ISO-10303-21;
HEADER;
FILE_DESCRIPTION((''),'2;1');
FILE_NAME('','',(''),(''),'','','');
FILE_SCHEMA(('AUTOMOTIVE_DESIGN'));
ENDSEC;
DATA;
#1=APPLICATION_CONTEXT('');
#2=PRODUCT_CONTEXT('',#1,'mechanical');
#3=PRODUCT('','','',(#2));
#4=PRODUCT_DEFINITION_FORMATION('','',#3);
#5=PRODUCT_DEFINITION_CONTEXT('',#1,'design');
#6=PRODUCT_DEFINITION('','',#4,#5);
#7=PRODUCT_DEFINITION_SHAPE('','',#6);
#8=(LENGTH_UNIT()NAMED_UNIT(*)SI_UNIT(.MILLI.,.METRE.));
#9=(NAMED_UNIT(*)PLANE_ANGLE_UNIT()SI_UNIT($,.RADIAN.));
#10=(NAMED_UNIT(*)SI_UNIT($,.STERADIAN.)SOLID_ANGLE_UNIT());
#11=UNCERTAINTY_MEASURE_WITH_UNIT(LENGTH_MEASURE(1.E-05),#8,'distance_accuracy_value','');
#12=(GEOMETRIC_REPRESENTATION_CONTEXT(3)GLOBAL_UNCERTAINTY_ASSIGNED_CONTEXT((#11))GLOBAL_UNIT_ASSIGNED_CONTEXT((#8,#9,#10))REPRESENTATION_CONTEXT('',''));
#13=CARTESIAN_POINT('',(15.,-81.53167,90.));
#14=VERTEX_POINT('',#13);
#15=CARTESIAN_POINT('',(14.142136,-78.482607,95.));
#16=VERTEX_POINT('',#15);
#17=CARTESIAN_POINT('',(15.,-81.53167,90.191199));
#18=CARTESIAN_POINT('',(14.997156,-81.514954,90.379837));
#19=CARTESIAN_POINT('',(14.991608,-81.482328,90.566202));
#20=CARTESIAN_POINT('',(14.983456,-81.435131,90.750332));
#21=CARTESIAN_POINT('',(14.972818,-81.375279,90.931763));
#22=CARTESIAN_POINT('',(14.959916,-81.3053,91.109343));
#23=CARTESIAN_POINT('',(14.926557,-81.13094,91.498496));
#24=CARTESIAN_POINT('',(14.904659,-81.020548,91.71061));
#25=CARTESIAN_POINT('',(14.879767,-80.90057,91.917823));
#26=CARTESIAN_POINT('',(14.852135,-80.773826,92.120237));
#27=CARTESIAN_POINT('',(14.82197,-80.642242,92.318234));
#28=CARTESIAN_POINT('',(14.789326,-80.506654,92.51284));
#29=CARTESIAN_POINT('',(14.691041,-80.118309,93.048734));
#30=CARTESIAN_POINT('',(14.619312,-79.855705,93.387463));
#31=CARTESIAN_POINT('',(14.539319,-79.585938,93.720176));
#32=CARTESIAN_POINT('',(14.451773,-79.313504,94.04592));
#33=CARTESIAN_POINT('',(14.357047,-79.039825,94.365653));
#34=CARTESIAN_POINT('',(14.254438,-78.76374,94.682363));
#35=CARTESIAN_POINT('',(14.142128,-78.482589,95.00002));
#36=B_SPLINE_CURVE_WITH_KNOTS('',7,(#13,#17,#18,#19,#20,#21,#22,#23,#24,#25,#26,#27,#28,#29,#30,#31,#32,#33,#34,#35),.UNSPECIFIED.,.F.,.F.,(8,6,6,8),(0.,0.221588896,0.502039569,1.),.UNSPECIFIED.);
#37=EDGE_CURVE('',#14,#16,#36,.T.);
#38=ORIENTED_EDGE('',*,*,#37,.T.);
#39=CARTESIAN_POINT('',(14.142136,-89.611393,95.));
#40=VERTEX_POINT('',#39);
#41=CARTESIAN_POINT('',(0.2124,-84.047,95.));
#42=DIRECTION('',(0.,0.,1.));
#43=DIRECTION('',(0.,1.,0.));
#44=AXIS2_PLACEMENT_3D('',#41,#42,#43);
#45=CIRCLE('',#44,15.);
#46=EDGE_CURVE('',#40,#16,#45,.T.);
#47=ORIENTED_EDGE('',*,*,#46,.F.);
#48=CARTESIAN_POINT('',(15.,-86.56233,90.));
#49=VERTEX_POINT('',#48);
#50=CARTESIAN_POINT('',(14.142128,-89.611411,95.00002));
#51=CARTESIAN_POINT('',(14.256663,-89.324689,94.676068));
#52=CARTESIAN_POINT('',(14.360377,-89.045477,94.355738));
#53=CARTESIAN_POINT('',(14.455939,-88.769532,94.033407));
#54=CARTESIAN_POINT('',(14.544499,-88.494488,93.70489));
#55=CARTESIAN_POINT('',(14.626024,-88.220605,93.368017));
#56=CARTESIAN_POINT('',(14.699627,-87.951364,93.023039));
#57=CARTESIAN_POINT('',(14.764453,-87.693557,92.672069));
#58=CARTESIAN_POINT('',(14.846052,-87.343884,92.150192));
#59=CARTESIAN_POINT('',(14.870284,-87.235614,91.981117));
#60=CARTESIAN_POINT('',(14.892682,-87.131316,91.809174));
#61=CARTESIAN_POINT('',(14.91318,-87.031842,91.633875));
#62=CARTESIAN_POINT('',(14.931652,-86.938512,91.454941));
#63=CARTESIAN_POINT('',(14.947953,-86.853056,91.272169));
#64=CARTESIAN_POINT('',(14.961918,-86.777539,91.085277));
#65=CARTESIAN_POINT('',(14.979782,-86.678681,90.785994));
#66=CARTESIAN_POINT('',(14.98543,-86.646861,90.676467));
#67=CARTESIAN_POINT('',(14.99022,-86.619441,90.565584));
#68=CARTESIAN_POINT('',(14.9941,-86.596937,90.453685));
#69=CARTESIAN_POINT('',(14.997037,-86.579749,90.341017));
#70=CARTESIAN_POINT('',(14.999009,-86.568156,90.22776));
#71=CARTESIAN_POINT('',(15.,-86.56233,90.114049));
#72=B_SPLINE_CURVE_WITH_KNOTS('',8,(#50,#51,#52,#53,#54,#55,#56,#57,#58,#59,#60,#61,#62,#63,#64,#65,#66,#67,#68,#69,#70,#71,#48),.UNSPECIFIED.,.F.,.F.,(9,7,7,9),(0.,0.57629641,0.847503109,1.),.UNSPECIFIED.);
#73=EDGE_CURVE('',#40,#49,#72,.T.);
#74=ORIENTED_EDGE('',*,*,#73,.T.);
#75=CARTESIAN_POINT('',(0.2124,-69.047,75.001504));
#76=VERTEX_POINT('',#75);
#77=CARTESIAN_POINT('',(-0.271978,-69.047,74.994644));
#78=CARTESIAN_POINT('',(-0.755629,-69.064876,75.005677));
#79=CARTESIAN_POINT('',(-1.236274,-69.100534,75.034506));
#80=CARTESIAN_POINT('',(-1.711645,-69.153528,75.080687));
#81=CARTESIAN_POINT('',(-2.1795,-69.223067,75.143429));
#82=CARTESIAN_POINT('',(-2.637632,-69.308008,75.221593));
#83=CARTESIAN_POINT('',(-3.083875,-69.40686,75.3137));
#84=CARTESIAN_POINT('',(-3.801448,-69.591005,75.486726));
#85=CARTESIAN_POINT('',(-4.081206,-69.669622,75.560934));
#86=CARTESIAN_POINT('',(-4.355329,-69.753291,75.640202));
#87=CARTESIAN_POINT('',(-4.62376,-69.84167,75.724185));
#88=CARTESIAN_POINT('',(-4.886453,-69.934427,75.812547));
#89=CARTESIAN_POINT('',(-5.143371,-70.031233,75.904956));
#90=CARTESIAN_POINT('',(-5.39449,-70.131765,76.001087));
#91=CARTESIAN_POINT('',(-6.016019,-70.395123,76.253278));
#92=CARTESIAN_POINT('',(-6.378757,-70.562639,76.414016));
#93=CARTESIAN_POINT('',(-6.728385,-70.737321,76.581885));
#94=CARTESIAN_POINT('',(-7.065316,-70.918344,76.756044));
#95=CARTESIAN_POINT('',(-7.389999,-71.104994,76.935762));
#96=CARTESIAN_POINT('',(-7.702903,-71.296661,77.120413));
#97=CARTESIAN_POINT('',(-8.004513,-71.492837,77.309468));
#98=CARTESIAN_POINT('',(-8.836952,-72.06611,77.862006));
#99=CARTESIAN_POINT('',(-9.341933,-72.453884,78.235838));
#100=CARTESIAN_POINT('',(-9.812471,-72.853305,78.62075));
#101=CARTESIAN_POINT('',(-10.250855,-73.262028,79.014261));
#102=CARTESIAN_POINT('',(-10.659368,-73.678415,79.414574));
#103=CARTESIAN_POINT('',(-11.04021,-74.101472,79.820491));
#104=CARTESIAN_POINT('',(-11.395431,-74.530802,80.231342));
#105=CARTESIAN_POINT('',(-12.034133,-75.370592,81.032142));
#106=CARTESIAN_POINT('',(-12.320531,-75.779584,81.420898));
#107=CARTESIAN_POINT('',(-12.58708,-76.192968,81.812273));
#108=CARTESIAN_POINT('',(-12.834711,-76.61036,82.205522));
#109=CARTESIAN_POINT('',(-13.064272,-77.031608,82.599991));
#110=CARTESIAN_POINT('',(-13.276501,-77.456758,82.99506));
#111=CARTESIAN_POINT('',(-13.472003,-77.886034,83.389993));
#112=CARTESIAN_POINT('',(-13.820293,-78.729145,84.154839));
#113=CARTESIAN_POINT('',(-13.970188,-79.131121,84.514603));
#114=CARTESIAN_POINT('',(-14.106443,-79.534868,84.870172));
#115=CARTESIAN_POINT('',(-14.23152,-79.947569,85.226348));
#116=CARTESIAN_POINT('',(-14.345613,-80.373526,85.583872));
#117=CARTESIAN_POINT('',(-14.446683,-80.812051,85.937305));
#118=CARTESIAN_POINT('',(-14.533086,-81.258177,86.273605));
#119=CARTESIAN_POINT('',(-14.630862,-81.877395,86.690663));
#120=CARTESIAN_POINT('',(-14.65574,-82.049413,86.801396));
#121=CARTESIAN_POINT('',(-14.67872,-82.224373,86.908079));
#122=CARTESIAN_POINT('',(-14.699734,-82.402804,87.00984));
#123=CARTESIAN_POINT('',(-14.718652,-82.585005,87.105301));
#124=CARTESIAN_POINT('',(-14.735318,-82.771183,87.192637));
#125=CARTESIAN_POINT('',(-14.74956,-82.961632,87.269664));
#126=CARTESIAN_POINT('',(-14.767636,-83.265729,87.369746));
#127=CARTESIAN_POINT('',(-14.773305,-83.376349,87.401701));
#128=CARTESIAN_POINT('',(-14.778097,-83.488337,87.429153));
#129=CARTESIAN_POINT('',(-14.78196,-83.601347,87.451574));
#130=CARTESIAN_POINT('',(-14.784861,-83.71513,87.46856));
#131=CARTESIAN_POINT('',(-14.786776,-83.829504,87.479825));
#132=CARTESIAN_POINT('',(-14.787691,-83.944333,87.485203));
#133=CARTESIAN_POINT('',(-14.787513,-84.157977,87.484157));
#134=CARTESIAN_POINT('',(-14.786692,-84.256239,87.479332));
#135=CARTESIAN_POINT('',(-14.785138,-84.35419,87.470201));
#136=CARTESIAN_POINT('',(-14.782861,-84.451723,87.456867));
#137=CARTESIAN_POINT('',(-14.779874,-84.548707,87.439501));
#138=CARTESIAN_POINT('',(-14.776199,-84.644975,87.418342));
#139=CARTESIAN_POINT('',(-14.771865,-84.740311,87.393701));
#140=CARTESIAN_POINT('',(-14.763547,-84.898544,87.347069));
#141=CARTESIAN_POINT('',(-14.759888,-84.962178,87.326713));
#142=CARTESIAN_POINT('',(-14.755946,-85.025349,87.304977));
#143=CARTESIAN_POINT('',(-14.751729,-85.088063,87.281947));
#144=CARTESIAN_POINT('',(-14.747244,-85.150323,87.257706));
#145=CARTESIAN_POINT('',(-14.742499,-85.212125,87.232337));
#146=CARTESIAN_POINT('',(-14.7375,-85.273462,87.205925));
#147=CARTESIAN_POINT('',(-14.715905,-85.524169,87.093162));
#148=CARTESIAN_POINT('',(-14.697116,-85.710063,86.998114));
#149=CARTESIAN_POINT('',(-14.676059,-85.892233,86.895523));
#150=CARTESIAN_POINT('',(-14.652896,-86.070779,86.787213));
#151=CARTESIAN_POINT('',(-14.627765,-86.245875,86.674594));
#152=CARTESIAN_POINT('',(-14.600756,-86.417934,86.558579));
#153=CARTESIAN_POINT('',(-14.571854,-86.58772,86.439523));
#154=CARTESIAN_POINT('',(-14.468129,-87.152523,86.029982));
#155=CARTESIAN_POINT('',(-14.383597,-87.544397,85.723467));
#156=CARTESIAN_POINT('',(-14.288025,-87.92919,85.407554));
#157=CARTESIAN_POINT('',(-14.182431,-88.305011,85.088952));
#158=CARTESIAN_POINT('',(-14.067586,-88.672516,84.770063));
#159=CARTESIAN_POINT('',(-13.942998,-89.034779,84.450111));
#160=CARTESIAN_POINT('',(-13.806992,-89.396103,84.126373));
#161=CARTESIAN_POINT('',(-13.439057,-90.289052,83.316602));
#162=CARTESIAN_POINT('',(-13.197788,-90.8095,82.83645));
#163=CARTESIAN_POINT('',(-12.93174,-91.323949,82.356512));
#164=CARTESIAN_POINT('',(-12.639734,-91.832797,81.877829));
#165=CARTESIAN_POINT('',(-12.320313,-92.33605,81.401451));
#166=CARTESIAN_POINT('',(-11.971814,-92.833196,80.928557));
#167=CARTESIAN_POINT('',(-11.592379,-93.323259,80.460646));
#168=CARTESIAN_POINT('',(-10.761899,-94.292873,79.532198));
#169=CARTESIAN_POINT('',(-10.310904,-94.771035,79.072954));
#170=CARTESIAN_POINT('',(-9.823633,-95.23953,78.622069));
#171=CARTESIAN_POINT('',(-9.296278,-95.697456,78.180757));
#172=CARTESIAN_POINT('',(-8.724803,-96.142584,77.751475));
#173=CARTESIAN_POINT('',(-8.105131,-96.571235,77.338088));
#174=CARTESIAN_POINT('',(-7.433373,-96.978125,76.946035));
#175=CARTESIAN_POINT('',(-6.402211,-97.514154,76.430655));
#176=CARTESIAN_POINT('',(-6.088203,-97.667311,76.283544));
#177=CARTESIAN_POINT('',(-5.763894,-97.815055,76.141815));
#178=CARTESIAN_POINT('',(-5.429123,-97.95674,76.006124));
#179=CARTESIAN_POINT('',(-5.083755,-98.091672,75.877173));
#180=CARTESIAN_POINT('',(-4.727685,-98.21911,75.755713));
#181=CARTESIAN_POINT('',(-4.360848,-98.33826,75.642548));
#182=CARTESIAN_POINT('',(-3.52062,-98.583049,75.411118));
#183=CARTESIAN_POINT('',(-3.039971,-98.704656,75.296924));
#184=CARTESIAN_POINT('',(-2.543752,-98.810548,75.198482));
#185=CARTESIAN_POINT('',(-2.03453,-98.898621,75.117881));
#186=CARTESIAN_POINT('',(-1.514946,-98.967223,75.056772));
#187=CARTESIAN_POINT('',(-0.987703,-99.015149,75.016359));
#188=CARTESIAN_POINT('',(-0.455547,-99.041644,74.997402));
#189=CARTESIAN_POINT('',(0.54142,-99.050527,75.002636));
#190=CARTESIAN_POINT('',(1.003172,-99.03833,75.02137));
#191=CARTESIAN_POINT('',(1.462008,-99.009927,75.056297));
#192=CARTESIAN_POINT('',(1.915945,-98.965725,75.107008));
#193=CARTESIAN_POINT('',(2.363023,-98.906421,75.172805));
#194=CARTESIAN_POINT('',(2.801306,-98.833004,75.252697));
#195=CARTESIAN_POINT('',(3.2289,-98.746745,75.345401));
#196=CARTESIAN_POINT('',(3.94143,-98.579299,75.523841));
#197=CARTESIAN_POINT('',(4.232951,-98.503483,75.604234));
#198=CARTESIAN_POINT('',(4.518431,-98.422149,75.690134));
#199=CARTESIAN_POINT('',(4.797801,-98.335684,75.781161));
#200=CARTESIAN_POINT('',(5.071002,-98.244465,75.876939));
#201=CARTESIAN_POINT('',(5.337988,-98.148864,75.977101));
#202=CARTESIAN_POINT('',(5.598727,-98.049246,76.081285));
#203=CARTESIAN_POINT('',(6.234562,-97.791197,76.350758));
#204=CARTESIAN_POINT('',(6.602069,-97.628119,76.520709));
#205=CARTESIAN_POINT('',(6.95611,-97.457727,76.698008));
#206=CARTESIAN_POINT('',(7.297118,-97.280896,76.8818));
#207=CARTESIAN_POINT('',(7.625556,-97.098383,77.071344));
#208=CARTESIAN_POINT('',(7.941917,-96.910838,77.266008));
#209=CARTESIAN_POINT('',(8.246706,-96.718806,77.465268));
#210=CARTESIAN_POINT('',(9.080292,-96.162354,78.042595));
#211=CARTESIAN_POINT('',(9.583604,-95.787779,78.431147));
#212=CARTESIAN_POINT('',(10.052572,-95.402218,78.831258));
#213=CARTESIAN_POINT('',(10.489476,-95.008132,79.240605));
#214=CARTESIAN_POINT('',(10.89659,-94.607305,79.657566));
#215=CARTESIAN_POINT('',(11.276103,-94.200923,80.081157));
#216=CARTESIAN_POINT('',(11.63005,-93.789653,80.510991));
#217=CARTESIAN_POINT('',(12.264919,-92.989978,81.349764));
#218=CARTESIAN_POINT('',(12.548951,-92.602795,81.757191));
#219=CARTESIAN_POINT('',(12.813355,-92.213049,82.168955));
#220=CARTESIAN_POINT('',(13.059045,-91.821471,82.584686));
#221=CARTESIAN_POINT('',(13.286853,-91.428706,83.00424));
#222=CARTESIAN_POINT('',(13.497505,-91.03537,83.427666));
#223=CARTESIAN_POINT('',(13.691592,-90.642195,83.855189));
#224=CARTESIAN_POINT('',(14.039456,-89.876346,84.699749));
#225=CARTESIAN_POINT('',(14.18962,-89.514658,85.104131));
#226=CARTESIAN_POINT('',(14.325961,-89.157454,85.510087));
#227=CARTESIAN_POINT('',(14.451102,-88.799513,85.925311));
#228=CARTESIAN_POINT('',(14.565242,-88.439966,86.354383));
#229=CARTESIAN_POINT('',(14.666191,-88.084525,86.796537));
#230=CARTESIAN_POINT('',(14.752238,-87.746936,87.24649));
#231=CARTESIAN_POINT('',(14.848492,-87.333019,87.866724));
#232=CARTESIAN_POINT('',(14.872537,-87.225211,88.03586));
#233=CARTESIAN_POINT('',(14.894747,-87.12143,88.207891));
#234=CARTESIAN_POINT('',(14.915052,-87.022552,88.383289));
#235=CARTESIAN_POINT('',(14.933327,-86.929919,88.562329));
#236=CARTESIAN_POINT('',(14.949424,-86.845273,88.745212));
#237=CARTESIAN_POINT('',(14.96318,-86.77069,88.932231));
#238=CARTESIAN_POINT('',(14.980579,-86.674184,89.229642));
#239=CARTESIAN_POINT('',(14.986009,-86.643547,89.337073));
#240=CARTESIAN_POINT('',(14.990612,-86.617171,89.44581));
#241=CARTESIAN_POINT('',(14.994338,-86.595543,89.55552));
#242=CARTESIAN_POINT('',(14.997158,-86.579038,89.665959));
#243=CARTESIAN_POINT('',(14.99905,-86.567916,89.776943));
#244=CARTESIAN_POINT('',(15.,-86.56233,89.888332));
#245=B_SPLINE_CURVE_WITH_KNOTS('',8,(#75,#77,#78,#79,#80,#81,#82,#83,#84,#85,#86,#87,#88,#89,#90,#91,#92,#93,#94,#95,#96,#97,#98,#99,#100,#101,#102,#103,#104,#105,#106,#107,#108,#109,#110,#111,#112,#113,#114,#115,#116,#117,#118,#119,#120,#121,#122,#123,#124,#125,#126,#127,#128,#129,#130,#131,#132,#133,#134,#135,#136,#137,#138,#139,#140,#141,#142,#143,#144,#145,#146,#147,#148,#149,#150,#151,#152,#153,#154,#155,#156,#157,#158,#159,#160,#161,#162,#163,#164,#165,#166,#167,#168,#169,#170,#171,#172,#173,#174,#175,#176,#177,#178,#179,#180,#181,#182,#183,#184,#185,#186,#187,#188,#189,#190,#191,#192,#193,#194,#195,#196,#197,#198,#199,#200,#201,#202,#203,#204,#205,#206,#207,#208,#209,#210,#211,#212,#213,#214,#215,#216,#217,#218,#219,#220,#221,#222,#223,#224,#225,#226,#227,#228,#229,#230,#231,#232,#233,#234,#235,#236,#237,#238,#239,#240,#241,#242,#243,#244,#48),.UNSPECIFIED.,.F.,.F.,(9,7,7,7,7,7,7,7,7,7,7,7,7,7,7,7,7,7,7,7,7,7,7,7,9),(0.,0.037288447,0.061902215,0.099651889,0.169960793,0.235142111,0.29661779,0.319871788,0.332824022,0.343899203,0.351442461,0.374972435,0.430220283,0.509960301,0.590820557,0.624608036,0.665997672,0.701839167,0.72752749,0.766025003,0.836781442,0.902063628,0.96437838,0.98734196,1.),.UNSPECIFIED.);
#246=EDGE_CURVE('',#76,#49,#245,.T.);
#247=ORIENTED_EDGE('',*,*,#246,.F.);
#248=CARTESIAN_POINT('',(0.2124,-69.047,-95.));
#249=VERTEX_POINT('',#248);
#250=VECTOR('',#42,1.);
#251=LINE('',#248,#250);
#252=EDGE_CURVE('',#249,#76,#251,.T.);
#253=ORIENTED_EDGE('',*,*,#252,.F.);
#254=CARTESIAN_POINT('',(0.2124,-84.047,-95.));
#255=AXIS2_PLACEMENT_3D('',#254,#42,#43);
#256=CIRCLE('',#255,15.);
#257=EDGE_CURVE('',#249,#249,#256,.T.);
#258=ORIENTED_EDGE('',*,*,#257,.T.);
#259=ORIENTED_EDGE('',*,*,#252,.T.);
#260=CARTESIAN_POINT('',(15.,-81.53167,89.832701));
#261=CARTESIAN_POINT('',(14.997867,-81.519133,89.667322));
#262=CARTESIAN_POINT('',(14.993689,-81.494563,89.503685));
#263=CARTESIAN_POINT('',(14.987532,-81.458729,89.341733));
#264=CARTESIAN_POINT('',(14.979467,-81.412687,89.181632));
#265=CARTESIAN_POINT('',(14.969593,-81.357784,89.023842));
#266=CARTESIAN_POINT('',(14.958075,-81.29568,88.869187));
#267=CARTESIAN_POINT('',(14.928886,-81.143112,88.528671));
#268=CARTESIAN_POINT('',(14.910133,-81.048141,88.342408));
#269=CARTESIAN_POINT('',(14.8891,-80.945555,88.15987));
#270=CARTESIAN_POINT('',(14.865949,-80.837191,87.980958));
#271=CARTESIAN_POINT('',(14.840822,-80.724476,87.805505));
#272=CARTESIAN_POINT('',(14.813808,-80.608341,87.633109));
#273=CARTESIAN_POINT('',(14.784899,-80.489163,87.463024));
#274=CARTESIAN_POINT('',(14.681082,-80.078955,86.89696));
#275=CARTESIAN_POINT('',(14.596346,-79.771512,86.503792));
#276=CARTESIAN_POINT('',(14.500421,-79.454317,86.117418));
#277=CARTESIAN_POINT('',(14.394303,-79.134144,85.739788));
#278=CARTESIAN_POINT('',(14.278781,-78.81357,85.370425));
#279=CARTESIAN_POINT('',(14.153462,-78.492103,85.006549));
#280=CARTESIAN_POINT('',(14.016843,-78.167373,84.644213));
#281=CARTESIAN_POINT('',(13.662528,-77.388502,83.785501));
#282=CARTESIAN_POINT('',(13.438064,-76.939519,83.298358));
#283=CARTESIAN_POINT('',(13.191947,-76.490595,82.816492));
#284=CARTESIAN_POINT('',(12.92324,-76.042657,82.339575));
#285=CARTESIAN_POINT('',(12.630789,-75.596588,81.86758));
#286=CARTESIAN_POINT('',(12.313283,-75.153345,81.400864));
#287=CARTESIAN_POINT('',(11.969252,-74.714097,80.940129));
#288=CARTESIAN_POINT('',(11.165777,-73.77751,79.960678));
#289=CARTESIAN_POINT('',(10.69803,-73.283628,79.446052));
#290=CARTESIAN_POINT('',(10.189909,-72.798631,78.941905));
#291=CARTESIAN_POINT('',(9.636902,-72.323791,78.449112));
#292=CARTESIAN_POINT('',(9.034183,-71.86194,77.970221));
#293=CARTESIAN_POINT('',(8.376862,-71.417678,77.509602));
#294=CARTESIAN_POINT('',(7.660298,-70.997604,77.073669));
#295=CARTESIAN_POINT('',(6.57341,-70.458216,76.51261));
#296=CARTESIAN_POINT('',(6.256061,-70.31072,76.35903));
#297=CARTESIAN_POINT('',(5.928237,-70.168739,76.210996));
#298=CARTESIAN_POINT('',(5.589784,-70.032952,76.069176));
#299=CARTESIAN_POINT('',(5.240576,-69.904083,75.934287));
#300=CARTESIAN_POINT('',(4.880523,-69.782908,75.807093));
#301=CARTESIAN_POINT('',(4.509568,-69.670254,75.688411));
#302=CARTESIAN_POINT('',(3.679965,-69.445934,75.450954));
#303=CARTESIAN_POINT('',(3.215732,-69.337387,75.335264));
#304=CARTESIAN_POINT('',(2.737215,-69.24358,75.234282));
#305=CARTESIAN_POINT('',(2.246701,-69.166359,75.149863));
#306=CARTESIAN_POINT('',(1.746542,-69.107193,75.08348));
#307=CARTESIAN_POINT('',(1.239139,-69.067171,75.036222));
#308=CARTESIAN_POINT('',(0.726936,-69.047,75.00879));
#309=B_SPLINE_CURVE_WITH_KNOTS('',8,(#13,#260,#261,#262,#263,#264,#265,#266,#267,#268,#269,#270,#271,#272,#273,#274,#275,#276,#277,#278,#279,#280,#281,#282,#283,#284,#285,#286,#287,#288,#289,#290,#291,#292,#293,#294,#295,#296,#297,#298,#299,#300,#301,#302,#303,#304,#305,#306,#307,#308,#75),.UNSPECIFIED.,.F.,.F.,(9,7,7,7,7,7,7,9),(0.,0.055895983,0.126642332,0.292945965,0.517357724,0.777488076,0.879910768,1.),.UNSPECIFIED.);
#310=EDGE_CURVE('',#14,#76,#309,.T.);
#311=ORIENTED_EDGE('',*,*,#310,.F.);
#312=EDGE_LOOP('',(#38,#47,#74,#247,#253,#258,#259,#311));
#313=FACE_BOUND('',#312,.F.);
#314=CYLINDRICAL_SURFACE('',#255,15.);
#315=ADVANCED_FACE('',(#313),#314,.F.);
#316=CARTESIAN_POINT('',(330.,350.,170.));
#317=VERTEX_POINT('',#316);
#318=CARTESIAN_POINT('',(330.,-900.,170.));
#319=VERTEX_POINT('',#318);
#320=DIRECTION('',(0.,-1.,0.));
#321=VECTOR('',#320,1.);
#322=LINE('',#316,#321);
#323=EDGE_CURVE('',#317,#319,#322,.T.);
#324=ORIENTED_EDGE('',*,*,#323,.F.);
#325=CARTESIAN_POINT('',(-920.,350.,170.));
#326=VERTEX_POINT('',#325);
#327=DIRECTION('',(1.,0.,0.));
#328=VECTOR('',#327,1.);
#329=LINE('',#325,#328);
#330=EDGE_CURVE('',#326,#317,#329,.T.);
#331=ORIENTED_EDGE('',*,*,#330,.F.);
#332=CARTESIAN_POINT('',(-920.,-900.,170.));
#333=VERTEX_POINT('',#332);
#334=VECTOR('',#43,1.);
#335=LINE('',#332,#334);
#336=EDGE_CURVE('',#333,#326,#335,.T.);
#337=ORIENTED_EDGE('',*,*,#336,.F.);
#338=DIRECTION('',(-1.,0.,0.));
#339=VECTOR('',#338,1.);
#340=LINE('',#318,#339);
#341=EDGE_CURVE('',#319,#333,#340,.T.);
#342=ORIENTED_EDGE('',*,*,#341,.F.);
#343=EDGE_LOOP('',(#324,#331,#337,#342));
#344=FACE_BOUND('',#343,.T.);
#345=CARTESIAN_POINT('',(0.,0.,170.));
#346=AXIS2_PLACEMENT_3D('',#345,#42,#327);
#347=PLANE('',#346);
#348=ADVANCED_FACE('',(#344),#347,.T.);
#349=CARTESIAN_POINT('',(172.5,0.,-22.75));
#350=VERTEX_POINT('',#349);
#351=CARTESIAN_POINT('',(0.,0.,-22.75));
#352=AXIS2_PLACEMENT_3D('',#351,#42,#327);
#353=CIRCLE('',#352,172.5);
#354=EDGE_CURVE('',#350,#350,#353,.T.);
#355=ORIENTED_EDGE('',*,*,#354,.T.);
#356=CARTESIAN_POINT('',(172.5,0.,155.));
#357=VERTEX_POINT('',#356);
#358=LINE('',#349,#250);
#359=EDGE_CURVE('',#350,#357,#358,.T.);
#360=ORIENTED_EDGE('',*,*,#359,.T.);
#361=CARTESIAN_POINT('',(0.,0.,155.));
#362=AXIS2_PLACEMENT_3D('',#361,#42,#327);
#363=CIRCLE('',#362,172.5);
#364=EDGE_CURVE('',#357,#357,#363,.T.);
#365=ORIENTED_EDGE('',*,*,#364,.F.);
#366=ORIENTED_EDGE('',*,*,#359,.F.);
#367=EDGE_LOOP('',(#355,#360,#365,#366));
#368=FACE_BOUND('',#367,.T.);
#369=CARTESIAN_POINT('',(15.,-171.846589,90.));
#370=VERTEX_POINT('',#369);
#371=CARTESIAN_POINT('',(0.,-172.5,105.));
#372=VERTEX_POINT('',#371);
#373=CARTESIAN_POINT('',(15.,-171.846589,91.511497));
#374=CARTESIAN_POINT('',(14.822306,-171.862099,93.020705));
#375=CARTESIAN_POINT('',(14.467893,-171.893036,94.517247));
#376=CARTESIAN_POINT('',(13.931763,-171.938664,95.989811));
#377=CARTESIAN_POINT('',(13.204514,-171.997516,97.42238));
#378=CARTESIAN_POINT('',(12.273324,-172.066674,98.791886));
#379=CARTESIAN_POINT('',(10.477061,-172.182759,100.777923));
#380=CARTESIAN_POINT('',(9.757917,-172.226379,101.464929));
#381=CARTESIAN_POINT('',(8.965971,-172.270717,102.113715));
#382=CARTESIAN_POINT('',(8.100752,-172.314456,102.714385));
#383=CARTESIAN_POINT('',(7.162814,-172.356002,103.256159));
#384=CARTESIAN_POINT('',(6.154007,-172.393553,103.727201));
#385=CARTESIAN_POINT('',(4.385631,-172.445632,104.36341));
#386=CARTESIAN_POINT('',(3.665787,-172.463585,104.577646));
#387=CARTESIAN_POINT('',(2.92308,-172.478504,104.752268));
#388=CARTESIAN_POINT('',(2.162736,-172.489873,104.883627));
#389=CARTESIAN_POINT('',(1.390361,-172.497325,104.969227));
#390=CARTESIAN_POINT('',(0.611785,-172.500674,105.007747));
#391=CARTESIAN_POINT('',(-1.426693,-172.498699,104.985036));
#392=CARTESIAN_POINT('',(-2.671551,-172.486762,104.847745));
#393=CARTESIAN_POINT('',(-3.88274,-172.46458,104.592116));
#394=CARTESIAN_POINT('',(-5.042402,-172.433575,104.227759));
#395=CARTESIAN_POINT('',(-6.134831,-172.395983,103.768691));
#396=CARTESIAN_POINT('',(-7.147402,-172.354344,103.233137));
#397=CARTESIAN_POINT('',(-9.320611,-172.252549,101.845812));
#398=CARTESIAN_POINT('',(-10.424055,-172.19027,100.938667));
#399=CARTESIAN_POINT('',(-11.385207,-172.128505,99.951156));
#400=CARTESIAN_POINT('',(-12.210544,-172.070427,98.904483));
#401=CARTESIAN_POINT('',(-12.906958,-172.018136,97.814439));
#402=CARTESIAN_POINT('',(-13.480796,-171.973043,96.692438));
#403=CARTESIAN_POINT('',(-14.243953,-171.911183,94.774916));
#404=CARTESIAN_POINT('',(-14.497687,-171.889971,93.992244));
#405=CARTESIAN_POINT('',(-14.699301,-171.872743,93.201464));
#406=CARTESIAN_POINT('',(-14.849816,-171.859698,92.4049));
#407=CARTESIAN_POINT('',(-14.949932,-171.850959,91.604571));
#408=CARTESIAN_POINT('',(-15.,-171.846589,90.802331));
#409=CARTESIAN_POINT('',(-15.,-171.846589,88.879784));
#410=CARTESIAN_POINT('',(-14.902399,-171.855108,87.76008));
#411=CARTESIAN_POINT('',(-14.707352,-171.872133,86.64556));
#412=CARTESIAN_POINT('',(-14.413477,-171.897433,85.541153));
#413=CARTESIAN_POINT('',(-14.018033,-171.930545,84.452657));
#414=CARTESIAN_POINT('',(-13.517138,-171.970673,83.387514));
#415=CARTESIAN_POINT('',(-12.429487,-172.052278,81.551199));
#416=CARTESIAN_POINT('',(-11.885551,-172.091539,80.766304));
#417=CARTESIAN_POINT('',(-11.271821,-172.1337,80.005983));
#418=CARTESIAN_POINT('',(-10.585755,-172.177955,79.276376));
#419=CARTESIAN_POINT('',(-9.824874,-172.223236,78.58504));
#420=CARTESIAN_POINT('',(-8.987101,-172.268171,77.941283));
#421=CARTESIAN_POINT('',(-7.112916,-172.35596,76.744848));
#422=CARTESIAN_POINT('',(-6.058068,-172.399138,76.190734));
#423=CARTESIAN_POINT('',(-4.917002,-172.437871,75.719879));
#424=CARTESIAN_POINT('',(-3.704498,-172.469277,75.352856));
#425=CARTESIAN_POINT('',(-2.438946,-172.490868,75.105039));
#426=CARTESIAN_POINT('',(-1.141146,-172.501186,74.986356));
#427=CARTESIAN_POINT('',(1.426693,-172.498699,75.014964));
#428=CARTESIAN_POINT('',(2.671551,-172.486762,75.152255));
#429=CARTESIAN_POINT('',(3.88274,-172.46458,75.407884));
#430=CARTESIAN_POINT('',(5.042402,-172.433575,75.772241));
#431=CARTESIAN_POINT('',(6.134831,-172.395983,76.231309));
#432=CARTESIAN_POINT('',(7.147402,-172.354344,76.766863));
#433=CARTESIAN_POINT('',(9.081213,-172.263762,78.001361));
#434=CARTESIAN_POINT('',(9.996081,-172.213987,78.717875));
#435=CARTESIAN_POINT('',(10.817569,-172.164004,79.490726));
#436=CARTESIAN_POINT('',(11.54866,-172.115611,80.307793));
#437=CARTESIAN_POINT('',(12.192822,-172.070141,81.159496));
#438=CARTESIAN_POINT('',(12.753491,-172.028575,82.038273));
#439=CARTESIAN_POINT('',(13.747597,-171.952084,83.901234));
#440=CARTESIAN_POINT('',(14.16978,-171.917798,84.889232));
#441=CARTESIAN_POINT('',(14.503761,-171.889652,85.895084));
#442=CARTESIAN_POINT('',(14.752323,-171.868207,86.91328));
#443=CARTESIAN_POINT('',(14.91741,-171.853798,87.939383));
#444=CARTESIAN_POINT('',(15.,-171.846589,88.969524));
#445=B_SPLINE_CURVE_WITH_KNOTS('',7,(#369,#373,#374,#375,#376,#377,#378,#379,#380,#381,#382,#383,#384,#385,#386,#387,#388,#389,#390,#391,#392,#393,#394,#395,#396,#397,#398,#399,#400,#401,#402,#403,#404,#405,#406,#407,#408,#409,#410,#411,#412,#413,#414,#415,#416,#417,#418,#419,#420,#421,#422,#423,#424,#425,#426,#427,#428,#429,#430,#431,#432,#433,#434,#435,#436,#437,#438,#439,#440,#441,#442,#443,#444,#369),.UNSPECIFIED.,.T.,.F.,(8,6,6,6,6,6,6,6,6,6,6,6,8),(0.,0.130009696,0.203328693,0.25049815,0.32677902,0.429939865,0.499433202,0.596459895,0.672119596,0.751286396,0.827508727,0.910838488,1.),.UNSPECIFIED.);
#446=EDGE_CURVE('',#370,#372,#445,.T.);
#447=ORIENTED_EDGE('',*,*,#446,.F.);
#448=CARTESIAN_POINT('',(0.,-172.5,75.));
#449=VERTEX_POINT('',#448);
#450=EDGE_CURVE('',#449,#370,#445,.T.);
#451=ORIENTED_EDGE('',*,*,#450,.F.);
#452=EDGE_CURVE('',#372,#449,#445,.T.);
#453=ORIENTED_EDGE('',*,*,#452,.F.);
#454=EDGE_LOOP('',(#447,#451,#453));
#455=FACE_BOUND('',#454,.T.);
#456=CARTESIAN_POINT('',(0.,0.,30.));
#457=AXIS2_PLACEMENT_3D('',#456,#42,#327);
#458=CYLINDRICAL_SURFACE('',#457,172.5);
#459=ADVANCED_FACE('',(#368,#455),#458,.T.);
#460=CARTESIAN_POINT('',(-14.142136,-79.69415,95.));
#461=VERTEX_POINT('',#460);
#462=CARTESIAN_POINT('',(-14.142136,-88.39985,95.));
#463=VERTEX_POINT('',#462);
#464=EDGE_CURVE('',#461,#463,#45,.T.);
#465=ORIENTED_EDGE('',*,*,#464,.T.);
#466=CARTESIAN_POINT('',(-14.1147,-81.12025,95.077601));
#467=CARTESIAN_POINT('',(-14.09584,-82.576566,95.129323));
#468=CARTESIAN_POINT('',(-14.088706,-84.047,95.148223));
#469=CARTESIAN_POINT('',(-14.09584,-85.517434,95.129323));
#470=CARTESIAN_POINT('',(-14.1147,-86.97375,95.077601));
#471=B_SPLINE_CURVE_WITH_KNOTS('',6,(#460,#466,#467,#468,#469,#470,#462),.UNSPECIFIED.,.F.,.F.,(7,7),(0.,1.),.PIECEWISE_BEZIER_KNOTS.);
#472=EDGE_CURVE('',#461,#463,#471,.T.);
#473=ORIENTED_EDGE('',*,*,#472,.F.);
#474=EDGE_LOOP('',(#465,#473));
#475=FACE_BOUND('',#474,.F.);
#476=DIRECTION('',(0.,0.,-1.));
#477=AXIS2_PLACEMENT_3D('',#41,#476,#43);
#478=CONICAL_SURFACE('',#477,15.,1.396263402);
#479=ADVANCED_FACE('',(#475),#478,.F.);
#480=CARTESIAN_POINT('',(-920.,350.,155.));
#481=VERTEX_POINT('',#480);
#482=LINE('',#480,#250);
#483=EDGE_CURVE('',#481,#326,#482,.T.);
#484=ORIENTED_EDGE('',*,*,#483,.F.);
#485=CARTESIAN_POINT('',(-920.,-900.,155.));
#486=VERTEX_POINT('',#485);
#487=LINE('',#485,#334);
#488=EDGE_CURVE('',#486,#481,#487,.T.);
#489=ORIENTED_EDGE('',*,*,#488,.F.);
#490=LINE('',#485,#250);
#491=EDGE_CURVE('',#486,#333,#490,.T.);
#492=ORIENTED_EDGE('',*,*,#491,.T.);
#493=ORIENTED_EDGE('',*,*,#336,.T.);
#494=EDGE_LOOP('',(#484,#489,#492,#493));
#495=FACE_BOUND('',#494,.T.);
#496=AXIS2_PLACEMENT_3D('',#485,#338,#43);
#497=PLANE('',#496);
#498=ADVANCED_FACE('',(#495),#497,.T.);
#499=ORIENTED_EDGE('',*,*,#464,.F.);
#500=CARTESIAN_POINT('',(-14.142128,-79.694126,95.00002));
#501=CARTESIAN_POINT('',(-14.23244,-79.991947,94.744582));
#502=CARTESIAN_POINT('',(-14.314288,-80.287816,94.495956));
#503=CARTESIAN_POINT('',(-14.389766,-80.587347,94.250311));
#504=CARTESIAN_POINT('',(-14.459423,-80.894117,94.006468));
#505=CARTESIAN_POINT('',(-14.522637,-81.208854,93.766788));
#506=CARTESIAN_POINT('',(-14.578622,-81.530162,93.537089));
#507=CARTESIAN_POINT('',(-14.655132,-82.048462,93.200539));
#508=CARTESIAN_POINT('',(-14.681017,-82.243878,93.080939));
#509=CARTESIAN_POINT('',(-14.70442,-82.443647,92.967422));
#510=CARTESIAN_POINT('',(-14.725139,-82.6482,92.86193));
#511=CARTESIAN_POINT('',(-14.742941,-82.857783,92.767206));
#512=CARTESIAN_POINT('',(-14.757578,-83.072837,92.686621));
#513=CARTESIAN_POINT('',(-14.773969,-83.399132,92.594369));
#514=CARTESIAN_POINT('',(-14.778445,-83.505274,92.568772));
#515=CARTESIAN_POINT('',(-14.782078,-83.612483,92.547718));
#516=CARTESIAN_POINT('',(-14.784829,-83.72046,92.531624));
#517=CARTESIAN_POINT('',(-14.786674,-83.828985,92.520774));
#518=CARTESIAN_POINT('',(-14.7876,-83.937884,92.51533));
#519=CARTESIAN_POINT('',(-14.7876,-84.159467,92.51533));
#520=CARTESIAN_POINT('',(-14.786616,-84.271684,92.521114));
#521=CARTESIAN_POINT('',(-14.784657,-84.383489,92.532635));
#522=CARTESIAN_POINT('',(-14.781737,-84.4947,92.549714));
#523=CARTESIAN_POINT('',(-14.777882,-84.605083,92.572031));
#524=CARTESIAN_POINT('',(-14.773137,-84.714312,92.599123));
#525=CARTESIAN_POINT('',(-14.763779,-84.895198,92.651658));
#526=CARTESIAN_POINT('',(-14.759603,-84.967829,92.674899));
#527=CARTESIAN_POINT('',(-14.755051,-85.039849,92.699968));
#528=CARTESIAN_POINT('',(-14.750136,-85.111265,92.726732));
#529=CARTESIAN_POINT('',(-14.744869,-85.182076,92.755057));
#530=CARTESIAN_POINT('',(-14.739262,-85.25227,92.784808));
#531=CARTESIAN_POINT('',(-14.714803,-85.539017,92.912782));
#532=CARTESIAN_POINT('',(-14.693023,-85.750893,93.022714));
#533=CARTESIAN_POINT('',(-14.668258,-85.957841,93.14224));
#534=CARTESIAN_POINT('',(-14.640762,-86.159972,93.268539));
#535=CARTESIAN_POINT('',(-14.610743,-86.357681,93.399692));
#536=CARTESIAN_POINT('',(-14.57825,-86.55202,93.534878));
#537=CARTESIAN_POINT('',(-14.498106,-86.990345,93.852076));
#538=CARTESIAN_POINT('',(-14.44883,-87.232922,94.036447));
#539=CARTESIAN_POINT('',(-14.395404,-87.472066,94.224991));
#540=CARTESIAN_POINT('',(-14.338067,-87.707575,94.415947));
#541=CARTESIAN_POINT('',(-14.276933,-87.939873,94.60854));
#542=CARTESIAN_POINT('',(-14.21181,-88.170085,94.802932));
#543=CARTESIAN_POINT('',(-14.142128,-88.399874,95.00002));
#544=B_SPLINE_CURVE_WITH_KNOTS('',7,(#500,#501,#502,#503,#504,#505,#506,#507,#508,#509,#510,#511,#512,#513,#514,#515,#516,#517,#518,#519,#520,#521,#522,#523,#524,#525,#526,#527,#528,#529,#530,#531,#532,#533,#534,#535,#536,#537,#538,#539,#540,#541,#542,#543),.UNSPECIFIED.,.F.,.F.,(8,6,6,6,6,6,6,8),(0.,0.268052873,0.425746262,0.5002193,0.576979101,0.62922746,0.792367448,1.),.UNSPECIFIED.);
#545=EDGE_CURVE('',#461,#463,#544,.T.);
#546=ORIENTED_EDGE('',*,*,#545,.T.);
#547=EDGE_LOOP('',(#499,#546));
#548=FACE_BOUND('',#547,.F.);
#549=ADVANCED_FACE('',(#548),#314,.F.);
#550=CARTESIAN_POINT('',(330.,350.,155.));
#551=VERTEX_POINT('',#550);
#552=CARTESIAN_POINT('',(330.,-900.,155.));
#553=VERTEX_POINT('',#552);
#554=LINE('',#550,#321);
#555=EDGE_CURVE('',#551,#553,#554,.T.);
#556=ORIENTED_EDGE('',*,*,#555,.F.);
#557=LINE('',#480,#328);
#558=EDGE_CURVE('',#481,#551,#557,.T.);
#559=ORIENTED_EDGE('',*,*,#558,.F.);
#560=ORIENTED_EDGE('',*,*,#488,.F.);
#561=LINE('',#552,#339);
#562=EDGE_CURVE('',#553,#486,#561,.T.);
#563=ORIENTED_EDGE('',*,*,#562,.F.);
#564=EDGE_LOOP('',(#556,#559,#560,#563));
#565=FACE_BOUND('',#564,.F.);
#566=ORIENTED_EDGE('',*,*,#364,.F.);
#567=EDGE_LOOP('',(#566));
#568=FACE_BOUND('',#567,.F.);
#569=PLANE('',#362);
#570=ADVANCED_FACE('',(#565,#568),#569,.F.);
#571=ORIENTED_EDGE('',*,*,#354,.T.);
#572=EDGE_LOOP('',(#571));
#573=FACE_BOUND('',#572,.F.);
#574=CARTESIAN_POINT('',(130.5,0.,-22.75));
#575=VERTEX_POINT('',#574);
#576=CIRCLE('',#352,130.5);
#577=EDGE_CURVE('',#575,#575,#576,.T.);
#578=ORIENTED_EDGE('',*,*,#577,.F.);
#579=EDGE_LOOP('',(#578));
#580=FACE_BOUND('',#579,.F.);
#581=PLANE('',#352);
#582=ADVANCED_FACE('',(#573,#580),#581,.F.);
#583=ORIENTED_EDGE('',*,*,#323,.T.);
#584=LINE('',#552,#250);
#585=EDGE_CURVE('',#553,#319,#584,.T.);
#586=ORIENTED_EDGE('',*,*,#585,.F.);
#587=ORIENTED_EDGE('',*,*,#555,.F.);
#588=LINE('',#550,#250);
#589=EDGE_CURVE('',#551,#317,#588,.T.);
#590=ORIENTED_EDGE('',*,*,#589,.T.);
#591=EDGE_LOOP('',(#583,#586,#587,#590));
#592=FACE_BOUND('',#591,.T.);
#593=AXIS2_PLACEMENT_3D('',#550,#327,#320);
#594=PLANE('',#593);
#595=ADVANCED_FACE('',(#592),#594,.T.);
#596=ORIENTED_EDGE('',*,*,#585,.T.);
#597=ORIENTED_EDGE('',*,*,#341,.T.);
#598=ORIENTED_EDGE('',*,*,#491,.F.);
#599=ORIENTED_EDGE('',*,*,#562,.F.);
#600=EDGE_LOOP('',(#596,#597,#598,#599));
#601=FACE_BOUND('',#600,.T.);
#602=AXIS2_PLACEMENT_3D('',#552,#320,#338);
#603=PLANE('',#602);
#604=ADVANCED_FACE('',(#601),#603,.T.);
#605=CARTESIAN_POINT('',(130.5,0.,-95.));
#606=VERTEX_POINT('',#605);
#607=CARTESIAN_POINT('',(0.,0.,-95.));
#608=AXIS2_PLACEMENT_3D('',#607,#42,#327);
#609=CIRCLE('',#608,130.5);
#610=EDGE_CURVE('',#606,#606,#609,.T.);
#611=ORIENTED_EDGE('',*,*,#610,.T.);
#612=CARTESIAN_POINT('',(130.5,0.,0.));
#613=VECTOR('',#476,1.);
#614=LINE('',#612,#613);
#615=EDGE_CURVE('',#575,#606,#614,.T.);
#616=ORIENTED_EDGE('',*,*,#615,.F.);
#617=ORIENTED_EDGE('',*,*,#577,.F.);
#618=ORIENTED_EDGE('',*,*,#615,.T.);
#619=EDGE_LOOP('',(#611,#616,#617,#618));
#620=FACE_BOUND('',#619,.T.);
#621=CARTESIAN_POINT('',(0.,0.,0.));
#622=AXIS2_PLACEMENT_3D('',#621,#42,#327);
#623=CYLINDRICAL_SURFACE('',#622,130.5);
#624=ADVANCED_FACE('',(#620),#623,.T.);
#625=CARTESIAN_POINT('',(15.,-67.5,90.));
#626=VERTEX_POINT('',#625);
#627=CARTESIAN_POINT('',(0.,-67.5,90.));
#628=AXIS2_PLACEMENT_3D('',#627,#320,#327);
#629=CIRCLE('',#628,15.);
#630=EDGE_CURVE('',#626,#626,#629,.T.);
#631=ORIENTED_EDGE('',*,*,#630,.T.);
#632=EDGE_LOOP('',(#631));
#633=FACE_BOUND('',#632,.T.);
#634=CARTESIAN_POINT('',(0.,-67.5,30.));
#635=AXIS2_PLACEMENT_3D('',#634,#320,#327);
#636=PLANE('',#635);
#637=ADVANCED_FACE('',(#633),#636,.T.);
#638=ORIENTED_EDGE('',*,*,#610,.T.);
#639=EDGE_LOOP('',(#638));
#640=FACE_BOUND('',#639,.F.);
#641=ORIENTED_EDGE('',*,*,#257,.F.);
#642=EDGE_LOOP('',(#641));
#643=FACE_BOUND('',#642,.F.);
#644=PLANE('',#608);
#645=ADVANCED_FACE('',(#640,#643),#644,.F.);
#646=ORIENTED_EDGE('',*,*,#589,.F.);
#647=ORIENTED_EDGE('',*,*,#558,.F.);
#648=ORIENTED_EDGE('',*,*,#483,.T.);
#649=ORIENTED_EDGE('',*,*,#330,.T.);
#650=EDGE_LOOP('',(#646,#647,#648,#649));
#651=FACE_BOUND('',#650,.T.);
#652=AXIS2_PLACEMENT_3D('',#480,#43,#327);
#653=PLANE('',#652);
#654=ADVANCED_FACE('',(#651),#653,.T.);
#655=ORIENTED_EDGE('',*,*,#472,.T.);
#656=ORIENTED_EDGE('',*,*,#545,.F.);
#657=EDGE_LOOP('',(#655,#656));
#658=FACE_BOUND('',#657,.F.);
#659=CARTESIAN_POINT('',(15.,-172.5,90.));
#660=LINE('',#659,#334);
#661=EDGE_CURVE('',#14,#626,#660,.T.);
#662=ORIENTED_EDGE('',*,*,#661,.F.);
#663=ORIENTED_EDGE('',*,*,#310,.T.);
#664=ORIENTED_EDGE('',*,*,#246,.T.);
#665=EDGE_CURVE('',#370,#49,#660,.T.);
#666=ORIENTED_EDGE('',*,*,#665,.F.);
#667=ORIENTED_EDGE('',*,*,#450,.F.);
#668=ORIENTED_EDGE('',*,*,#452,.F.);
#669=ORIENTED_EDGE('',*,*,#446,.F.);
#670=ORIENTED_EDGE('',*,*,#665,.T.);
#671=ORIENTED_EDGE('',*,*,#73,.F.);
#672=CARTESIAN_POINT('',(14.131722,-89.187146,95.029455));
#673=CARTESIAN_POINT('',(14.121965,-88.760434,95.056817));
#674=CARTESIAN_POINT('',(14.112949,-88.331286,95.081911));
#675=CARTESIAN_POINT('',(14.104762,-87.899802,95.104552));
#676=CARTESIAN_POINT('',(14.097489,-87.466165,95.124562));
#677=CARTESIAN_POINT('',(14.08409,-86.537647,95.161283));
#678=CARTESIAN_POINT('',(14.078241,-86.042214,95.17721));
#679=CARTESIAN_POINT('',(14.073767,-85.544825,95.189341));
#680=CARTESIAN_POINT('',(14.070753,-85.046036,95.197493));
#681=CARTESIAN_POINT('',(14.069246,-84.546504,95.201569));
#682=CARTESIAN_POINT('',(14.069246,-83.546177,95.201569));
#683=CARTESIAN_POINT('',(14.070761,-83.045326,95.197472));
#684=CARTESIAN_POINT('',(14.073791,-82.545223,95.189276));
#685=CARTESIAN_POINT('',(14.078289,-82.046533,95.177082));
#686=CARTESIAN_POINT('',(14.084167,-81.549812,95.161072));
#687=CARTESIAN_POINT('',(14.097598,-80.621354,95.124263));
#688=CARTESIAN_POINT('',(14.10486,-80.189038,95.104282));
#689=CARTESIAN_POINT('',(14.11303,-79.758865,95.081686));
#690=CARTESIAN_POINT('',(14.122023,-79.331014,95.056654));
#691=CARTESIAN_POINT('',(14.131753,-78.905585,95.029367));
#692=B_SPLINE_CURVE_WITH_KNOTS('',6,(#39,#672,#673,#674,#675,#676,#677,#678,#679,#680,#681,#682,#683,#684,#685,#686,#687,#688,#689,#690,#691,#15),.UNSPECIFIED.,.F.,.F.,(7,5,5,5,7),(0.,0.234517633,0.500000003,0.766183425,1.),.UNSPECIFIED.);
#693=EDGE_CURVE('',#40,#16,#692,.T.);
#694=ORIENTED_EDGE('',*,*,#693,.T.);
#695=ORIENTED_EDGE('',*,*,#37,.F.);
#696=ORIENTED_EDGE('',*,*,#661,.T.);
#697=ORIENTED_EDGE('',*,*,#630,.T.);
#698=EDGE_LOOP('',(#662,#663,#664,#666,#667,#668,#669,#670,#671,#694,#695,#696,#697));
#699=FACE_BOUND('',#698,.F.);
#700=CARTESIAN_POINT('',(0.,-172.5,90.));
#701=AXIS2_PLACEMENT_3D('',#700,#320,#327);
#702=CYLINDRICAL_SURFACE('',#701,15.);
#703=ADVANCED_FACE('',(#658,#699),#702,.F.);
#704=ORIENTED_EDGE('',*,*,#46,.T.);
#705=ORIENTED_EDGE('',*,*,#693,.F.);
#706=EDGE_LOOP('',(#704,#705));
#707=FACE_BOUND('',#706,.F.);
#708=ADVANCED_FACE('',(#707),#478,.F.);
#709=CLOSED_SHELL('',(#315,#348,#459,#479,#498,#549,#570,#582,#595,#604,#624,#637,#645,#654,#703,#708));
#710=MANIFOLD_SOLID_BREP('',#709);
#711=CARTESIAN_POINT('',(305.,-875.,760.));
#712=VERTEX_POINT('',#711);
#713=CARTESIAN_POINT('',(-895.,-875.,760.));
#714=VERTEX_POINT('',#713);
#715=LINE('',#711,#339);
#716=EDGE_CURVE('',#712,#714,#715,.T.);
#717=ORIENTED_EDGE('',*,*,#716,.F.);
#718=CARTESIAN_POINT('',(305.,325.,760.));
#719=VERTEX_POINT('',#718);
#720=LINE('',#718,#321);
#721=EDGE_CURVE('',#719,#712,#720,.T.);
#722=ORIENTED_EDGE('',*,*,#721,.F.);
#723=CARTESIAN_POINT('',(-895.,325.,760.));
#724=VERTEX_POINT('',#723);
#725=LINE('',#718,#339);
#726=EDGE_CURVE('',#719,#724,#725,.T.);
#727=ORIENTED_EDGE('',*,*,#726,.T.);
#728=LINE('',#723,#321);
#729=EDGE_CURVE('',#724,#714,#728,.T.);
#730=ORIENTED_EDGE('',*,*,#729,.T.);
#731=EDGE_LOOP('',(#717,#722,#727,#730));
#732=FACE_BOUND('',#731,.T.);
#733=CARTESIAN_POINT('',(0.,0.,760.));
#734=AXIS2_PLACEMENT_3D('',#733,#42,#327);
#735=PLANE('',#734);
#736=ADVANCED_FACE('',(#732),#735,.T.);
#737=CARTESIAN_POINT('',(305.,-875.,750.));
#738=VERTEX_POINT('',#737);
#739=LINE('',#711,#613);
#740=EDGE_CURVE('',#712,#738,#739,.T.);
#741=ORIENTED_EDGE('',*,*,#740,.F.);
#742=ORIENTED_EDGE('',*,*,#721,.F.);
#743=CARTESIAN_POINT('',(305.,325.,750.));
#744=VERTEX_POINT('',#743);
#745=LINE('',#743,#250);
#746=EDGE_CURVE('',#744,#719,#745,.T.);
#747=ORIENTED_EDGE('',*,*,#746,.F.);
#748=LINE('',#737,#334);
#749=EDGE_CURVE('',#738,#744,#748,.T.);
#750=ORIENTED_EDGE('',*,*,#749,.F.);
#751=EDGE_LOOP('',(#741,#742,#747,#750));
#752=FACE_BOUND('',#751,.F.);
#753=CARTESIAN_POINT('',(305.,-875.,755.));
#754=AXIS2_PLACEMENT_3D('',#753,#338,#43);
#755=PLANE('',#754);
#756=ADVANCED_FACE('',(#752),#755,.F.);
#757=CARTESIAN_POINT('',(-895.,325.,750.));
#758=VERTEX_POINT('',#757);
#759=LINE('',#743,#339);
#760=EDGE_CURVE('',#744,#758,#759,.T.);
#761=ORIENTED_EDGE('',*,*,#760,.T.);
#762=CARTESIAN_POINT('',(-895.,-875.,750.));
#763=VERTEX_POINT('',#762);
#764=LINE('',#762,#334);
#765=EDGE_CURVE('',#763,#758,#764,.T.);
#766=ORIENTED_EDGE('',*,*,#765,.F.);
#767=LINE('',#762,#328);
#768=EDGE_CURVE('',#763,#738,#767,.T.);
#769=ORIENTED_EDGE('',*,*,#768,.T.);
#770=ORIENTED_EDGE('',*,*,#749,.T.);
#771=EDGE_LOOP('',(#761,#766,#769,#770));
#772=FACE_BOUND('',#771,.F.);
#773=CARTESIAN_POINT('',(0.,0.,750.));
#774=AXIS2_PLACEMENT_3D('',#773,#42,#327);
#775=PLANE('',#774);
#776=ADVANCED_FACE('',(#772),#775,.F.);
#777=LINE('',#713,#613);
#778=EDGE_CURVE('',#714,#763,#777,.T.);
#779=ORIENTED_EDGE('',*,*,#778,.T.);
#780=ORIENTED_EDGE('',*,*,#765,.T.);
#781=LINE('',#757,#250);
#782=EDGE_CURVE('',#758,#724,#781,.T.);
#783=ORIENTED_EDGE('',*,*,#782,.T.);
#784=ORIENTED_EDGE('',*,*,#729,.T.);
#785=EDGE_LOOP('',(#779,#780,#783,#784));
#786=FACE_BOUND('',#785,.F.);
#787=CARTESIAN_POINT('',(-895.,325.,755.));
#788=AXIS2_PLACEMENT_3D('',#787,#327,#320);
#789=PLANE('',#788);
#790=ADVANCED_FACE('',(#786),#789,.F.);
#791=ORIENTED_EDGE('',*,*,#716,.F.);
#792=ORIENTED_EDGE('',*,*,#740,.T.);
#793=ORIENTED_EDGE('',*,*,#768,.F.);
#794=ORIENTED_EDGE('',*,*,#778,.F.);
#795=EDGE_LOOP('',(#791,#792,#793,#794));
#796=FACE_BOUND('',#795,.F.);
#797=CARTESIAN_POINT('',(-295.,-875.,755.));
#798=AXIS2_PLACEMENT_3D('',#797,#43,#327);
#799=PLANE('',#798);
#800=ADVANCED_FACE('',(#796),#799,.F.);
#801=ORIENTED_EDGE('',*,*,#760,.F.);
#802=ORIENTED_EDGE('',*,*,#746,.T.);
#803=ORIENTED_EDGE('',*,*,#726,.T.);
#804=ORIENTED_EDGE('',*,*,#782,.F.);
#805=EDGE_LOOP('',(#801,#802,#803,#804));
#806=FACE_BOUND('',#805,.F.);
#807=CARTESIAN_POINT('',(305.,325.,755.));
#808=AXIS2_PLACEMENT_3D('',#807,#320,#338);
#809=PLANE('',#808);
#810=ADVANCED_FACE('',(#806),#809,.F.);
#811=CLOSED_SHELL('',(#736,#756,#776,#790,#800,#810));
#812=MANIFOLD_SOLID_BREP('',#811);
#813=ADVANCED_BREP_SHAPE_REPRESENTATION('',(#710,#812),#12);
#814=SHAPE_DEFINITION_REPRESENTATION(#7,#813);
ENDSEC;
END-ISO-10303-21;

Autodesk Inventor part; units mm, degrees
sketch "Sketch1" plane through (0, 0, 0) normal (0, 0, 1) x (1, 0, 0)
  circle A0 centre (0, 0) radius 130.5
  dimension "d0" = 261
extrude "Extrusion1" add sketch "Sketch1" along normal blind 30 and the other way blind 95
sketch "Sketch2" plane through (0, 0, 30) normal (0, 0, 1) x (1, 0, 0)
  circle A0 centre (0, 0) radius 172.5
  dimension "d3" = 345
extrude "Extrusion2" add sketch "Sketch2" along normal blind 125 and the other way blind 52.75
sketch "Sketch3" plane through (0, 0, 155) normal (0, 0, 1) x (1, 0, 0)
  line L0 (-920, 350) -> (330, 350)
  line L1 (330, 350) -> (330, -900)
  line L2 (330, -900) -> (-920, -900)
  line L3 (-920, -900) -> (-920, 350)
  point P0 (0, 0)
  dimension "d8" = 920
  dimension "d9" = 1250
  dimension "d10" = 900
  dimension "d11" = 1250
extrude "Extrusion3" add sketch "Sketch3" along normal blind 15
sketch "Sketch5" plane through (0, 0, 155) normal (0, 0, -1) x (-1, 0, 0)
  line L0 (-315, -885) -> (905, -885)
  line L1 (905, -885) -> (905, 335)
  line L2 (905, 335) -> (-315, 335)
  line L3 (-315, 335) -> (-315, -885)
  line L4 (590, -885) -> (590, -515)
  line L5 (590, -515) -> (905, -515)
  line L6 (590, -515) -> (590, -105)
  line L7 (590, -105) -> (905, -105)
  line L8 (590, -105) -> (590, 335)
  line L9 (-315, -335) -> (590, -335)
  point P0 (0, 0)
  dimension "d14" = 885
  dimension "d15" = 335
  dimension "d16" = 315
  dimension "d17" = 905
  dimension "d18" = 370
  dimension "d19" = 315
  dimension "d20" = 440
  dimension "d22" = 335
ref_plane "Work Plane1" through (-895, -900, 155) normal (-1, 0, 0) x (0, 0, 1)
sketch "Sketch7" plane through (-895, -900, 155) normal (-1, 0, 0) x (0, 0, 1)
  line L0 (0, 0) -> (15, 0) projected
  line L1 (0, 0) -> (0, 1250) projected
  line L2 (35, 25) -> (1005, 25)
  line L3 (1005, 25) -> (1005, 1225)
  line L4 (1005, 1225) -> (35, 1225)
  line L5 (35, 1225) -> (35, 25)
  line L6 (35, 625) -> (600, 625)
  line L7 (600, 25) -> (600, 1225)
  point P0 (-155, 900)
  dimension "d24" = 25
  dimension "d25" = 35
  dimension "d26" = 1200
  dimension "d27" = 970
  dimension "d78" = 600
ref_plane "Work Plane2" through (-920, -875, 155) normal (0, -1, 0) x (1, 0, 0)
sketch "Sketch8" plane through (-920, -875, 155) normal (0, -1, 0) x (1, 0, 0)
  line L0 (1250, 0) -> (1250, 15) projected
  line L1 (1250, 0) -> (0, 0) projected
  line L2 (1225, 35) -> (25, 35)
  line L3 (25, 35) -> (25, 1005)
  line L4 (25, 1005) -> (1225, 1005)
  line L5 (1225, 1005) -> (1225, 35)
  line L6 (1225, 600) -> (25, 600)
  line L7 (625, 600) -> (625, 35)
  line L8 (25, 285) -> (625, 35)
  line L9 (1225, 285) -> (625, 35)
  point P0 (920, -155)
  dimension "d29" = 25
  dimension "d30" = 35
  dimension "d31" = 1200
  dimension "d32" = 970
  dimension "d33" = 600
  dimension "d66" = 0
  dimension "d67" = 250
  dimension "d68" = 250
ref_plane "Work Plane3" through (-920, 325, 155) normal (0, 1, 0) x (1, 0, 0)
sketch "Sketch9" plane through (-920, 325, 155) normal (0, 1, 0) x (1, 0, 0)
  line L0 (25, -35) -> (1225, -35)
  line L1 (1225, -35) -> (1225, -1005)
  line L2 (1225, -1005) -> (25, -1005)
  line L3 (25, -1005) -> (25, -35)
  line L4 (0, 0) -> (0, -15) projected
  line L5 (0, 0) -> (1250, 0) projected
  line L6 (25, -600) -> (1225, -600)
  line L7 (625, -600) -> (625, -35)
  line L8 (25, -285) -> (625, -35)
  line L9 (625, -35) -> (1225, -285)
  point P0 (920, 155)
  dimension "d35" = 25
  dimension "d36" = 35
  dimension "d37" = 1200
  dimension "d38" = 970
  dimension "d39" = 600
  dimension "d69" = 250
  dimension "d70" = 250
ref_plane "Work Plane4" through (305, -900, 155) normal (1, 0, 0) x (0, 0, -1)
sketch "Sketch10" plane through (305, -900, 155) normal (1, 0, 0) x (0, 0, -1)
  line L0 (-35, 1225) -> (-1005, 1225)
  line L1 (-1005, 1225) -> (-1005, 25)
  line L2 (-1005, 25) -> (-35, 25)
  line L3 (-35, 25) -> (-35, 1225)
  line L4 (0, 1250) -> (-15, 1250) projected
  line L5 (0, 1250) -> (0, 0) projected
  line L6 (-600, 1225) -> (-600, 25)
  line L7 (-600, 625) -> (-35, 625)
  line L8 (-285, 25) -> (-35, 625)
  line L9 (-35, 625) -> (-285, 1225)
  point P0 (155, 900)
  dimension "d41" = 25
  dimension "d42" = 35
  dimension "d43" = 1200
  dimension "d44" = 970
  dimension "d45" = 600
  dimension "d71" = 250
  dimension "d72" = 250
ref_plane "Work Plane5" through (0, 0, 755) normal (0, 0, 1) x (1, 0, 0)
sketch "Sketch11" plane through (0, 0, 755) normal (0, 0, 1) x (1, 0, 0)
  line L0 (305, 325) -> (-295, 325)
  line L1 (-295, 325) -> (-295, -875)
  line L2 (-295, -875) -> (305, -875)
  line L3 (305, -875) -> (305, 325)
  line L4 (330, 350) -> (-920, 350) projected
  line L5 (330, -900) -> (330, 350) projected
  line L6 (-895, -275) -> (305, -275)
  line L7 (-295, -875) -> (-895, -875)
  line L8 (-920, 350) -> (-920, -900) projected
  line L9 (-295, 325) -> (-895, 325)
  line L10 (-895, 325) -> (-895, -875)
  point P0 (0, 0)
  point P1 (-295, -275)
  point P2 (-920, -900)
  dimension "d47" = 25
  dimension "d48" = 25
  dimension "d49" = 1200
  dimension "d50" = 625
  dimension "d79" = 600
  dimension "d80" = 600
sketch "Sketch13" plane through (0, 0, -95) normal (0, 0, -1) x (-1, 0, 0)
  point P0 (0, 0)
  point P1 (-0.2124, -84.047)
hole "Hole1" at (0.2124, -84.047, -95) direction (0, 0, 1) diameter 30 depth 190 tip angle 160
ref_plane "Work Plane8" through (0, -172.5, 30) normal (0, -1, 0) x (1, 0, 0)
sketch "Sketch14" plane through (0, -172.5, 30) normal (0, -1, 0) x (1, 0, 0)
  circle A0 centre (0, 60) radius 15
  point P0 (0, -30)
  dimension "d60" = 30
  dimension "d61" = 90
extrude "Extrusion4" cut sketch "Sketch14" against normal blind 105
extrude "Extrusion5" add sketch "Sketch11" along normal mid plane 10 contours L3 L2 L1 L6
extrude "Extrusion6" add sketch "Sketch11" along normal mid plane 10 contours L3 L6 L1 L0
extrude "Extrusion7" add sketch "Sketch11" along normal mid plane 10 contours L1 L6 L10 L9 | L1 L7 L10 L6
properties part number "base1"
